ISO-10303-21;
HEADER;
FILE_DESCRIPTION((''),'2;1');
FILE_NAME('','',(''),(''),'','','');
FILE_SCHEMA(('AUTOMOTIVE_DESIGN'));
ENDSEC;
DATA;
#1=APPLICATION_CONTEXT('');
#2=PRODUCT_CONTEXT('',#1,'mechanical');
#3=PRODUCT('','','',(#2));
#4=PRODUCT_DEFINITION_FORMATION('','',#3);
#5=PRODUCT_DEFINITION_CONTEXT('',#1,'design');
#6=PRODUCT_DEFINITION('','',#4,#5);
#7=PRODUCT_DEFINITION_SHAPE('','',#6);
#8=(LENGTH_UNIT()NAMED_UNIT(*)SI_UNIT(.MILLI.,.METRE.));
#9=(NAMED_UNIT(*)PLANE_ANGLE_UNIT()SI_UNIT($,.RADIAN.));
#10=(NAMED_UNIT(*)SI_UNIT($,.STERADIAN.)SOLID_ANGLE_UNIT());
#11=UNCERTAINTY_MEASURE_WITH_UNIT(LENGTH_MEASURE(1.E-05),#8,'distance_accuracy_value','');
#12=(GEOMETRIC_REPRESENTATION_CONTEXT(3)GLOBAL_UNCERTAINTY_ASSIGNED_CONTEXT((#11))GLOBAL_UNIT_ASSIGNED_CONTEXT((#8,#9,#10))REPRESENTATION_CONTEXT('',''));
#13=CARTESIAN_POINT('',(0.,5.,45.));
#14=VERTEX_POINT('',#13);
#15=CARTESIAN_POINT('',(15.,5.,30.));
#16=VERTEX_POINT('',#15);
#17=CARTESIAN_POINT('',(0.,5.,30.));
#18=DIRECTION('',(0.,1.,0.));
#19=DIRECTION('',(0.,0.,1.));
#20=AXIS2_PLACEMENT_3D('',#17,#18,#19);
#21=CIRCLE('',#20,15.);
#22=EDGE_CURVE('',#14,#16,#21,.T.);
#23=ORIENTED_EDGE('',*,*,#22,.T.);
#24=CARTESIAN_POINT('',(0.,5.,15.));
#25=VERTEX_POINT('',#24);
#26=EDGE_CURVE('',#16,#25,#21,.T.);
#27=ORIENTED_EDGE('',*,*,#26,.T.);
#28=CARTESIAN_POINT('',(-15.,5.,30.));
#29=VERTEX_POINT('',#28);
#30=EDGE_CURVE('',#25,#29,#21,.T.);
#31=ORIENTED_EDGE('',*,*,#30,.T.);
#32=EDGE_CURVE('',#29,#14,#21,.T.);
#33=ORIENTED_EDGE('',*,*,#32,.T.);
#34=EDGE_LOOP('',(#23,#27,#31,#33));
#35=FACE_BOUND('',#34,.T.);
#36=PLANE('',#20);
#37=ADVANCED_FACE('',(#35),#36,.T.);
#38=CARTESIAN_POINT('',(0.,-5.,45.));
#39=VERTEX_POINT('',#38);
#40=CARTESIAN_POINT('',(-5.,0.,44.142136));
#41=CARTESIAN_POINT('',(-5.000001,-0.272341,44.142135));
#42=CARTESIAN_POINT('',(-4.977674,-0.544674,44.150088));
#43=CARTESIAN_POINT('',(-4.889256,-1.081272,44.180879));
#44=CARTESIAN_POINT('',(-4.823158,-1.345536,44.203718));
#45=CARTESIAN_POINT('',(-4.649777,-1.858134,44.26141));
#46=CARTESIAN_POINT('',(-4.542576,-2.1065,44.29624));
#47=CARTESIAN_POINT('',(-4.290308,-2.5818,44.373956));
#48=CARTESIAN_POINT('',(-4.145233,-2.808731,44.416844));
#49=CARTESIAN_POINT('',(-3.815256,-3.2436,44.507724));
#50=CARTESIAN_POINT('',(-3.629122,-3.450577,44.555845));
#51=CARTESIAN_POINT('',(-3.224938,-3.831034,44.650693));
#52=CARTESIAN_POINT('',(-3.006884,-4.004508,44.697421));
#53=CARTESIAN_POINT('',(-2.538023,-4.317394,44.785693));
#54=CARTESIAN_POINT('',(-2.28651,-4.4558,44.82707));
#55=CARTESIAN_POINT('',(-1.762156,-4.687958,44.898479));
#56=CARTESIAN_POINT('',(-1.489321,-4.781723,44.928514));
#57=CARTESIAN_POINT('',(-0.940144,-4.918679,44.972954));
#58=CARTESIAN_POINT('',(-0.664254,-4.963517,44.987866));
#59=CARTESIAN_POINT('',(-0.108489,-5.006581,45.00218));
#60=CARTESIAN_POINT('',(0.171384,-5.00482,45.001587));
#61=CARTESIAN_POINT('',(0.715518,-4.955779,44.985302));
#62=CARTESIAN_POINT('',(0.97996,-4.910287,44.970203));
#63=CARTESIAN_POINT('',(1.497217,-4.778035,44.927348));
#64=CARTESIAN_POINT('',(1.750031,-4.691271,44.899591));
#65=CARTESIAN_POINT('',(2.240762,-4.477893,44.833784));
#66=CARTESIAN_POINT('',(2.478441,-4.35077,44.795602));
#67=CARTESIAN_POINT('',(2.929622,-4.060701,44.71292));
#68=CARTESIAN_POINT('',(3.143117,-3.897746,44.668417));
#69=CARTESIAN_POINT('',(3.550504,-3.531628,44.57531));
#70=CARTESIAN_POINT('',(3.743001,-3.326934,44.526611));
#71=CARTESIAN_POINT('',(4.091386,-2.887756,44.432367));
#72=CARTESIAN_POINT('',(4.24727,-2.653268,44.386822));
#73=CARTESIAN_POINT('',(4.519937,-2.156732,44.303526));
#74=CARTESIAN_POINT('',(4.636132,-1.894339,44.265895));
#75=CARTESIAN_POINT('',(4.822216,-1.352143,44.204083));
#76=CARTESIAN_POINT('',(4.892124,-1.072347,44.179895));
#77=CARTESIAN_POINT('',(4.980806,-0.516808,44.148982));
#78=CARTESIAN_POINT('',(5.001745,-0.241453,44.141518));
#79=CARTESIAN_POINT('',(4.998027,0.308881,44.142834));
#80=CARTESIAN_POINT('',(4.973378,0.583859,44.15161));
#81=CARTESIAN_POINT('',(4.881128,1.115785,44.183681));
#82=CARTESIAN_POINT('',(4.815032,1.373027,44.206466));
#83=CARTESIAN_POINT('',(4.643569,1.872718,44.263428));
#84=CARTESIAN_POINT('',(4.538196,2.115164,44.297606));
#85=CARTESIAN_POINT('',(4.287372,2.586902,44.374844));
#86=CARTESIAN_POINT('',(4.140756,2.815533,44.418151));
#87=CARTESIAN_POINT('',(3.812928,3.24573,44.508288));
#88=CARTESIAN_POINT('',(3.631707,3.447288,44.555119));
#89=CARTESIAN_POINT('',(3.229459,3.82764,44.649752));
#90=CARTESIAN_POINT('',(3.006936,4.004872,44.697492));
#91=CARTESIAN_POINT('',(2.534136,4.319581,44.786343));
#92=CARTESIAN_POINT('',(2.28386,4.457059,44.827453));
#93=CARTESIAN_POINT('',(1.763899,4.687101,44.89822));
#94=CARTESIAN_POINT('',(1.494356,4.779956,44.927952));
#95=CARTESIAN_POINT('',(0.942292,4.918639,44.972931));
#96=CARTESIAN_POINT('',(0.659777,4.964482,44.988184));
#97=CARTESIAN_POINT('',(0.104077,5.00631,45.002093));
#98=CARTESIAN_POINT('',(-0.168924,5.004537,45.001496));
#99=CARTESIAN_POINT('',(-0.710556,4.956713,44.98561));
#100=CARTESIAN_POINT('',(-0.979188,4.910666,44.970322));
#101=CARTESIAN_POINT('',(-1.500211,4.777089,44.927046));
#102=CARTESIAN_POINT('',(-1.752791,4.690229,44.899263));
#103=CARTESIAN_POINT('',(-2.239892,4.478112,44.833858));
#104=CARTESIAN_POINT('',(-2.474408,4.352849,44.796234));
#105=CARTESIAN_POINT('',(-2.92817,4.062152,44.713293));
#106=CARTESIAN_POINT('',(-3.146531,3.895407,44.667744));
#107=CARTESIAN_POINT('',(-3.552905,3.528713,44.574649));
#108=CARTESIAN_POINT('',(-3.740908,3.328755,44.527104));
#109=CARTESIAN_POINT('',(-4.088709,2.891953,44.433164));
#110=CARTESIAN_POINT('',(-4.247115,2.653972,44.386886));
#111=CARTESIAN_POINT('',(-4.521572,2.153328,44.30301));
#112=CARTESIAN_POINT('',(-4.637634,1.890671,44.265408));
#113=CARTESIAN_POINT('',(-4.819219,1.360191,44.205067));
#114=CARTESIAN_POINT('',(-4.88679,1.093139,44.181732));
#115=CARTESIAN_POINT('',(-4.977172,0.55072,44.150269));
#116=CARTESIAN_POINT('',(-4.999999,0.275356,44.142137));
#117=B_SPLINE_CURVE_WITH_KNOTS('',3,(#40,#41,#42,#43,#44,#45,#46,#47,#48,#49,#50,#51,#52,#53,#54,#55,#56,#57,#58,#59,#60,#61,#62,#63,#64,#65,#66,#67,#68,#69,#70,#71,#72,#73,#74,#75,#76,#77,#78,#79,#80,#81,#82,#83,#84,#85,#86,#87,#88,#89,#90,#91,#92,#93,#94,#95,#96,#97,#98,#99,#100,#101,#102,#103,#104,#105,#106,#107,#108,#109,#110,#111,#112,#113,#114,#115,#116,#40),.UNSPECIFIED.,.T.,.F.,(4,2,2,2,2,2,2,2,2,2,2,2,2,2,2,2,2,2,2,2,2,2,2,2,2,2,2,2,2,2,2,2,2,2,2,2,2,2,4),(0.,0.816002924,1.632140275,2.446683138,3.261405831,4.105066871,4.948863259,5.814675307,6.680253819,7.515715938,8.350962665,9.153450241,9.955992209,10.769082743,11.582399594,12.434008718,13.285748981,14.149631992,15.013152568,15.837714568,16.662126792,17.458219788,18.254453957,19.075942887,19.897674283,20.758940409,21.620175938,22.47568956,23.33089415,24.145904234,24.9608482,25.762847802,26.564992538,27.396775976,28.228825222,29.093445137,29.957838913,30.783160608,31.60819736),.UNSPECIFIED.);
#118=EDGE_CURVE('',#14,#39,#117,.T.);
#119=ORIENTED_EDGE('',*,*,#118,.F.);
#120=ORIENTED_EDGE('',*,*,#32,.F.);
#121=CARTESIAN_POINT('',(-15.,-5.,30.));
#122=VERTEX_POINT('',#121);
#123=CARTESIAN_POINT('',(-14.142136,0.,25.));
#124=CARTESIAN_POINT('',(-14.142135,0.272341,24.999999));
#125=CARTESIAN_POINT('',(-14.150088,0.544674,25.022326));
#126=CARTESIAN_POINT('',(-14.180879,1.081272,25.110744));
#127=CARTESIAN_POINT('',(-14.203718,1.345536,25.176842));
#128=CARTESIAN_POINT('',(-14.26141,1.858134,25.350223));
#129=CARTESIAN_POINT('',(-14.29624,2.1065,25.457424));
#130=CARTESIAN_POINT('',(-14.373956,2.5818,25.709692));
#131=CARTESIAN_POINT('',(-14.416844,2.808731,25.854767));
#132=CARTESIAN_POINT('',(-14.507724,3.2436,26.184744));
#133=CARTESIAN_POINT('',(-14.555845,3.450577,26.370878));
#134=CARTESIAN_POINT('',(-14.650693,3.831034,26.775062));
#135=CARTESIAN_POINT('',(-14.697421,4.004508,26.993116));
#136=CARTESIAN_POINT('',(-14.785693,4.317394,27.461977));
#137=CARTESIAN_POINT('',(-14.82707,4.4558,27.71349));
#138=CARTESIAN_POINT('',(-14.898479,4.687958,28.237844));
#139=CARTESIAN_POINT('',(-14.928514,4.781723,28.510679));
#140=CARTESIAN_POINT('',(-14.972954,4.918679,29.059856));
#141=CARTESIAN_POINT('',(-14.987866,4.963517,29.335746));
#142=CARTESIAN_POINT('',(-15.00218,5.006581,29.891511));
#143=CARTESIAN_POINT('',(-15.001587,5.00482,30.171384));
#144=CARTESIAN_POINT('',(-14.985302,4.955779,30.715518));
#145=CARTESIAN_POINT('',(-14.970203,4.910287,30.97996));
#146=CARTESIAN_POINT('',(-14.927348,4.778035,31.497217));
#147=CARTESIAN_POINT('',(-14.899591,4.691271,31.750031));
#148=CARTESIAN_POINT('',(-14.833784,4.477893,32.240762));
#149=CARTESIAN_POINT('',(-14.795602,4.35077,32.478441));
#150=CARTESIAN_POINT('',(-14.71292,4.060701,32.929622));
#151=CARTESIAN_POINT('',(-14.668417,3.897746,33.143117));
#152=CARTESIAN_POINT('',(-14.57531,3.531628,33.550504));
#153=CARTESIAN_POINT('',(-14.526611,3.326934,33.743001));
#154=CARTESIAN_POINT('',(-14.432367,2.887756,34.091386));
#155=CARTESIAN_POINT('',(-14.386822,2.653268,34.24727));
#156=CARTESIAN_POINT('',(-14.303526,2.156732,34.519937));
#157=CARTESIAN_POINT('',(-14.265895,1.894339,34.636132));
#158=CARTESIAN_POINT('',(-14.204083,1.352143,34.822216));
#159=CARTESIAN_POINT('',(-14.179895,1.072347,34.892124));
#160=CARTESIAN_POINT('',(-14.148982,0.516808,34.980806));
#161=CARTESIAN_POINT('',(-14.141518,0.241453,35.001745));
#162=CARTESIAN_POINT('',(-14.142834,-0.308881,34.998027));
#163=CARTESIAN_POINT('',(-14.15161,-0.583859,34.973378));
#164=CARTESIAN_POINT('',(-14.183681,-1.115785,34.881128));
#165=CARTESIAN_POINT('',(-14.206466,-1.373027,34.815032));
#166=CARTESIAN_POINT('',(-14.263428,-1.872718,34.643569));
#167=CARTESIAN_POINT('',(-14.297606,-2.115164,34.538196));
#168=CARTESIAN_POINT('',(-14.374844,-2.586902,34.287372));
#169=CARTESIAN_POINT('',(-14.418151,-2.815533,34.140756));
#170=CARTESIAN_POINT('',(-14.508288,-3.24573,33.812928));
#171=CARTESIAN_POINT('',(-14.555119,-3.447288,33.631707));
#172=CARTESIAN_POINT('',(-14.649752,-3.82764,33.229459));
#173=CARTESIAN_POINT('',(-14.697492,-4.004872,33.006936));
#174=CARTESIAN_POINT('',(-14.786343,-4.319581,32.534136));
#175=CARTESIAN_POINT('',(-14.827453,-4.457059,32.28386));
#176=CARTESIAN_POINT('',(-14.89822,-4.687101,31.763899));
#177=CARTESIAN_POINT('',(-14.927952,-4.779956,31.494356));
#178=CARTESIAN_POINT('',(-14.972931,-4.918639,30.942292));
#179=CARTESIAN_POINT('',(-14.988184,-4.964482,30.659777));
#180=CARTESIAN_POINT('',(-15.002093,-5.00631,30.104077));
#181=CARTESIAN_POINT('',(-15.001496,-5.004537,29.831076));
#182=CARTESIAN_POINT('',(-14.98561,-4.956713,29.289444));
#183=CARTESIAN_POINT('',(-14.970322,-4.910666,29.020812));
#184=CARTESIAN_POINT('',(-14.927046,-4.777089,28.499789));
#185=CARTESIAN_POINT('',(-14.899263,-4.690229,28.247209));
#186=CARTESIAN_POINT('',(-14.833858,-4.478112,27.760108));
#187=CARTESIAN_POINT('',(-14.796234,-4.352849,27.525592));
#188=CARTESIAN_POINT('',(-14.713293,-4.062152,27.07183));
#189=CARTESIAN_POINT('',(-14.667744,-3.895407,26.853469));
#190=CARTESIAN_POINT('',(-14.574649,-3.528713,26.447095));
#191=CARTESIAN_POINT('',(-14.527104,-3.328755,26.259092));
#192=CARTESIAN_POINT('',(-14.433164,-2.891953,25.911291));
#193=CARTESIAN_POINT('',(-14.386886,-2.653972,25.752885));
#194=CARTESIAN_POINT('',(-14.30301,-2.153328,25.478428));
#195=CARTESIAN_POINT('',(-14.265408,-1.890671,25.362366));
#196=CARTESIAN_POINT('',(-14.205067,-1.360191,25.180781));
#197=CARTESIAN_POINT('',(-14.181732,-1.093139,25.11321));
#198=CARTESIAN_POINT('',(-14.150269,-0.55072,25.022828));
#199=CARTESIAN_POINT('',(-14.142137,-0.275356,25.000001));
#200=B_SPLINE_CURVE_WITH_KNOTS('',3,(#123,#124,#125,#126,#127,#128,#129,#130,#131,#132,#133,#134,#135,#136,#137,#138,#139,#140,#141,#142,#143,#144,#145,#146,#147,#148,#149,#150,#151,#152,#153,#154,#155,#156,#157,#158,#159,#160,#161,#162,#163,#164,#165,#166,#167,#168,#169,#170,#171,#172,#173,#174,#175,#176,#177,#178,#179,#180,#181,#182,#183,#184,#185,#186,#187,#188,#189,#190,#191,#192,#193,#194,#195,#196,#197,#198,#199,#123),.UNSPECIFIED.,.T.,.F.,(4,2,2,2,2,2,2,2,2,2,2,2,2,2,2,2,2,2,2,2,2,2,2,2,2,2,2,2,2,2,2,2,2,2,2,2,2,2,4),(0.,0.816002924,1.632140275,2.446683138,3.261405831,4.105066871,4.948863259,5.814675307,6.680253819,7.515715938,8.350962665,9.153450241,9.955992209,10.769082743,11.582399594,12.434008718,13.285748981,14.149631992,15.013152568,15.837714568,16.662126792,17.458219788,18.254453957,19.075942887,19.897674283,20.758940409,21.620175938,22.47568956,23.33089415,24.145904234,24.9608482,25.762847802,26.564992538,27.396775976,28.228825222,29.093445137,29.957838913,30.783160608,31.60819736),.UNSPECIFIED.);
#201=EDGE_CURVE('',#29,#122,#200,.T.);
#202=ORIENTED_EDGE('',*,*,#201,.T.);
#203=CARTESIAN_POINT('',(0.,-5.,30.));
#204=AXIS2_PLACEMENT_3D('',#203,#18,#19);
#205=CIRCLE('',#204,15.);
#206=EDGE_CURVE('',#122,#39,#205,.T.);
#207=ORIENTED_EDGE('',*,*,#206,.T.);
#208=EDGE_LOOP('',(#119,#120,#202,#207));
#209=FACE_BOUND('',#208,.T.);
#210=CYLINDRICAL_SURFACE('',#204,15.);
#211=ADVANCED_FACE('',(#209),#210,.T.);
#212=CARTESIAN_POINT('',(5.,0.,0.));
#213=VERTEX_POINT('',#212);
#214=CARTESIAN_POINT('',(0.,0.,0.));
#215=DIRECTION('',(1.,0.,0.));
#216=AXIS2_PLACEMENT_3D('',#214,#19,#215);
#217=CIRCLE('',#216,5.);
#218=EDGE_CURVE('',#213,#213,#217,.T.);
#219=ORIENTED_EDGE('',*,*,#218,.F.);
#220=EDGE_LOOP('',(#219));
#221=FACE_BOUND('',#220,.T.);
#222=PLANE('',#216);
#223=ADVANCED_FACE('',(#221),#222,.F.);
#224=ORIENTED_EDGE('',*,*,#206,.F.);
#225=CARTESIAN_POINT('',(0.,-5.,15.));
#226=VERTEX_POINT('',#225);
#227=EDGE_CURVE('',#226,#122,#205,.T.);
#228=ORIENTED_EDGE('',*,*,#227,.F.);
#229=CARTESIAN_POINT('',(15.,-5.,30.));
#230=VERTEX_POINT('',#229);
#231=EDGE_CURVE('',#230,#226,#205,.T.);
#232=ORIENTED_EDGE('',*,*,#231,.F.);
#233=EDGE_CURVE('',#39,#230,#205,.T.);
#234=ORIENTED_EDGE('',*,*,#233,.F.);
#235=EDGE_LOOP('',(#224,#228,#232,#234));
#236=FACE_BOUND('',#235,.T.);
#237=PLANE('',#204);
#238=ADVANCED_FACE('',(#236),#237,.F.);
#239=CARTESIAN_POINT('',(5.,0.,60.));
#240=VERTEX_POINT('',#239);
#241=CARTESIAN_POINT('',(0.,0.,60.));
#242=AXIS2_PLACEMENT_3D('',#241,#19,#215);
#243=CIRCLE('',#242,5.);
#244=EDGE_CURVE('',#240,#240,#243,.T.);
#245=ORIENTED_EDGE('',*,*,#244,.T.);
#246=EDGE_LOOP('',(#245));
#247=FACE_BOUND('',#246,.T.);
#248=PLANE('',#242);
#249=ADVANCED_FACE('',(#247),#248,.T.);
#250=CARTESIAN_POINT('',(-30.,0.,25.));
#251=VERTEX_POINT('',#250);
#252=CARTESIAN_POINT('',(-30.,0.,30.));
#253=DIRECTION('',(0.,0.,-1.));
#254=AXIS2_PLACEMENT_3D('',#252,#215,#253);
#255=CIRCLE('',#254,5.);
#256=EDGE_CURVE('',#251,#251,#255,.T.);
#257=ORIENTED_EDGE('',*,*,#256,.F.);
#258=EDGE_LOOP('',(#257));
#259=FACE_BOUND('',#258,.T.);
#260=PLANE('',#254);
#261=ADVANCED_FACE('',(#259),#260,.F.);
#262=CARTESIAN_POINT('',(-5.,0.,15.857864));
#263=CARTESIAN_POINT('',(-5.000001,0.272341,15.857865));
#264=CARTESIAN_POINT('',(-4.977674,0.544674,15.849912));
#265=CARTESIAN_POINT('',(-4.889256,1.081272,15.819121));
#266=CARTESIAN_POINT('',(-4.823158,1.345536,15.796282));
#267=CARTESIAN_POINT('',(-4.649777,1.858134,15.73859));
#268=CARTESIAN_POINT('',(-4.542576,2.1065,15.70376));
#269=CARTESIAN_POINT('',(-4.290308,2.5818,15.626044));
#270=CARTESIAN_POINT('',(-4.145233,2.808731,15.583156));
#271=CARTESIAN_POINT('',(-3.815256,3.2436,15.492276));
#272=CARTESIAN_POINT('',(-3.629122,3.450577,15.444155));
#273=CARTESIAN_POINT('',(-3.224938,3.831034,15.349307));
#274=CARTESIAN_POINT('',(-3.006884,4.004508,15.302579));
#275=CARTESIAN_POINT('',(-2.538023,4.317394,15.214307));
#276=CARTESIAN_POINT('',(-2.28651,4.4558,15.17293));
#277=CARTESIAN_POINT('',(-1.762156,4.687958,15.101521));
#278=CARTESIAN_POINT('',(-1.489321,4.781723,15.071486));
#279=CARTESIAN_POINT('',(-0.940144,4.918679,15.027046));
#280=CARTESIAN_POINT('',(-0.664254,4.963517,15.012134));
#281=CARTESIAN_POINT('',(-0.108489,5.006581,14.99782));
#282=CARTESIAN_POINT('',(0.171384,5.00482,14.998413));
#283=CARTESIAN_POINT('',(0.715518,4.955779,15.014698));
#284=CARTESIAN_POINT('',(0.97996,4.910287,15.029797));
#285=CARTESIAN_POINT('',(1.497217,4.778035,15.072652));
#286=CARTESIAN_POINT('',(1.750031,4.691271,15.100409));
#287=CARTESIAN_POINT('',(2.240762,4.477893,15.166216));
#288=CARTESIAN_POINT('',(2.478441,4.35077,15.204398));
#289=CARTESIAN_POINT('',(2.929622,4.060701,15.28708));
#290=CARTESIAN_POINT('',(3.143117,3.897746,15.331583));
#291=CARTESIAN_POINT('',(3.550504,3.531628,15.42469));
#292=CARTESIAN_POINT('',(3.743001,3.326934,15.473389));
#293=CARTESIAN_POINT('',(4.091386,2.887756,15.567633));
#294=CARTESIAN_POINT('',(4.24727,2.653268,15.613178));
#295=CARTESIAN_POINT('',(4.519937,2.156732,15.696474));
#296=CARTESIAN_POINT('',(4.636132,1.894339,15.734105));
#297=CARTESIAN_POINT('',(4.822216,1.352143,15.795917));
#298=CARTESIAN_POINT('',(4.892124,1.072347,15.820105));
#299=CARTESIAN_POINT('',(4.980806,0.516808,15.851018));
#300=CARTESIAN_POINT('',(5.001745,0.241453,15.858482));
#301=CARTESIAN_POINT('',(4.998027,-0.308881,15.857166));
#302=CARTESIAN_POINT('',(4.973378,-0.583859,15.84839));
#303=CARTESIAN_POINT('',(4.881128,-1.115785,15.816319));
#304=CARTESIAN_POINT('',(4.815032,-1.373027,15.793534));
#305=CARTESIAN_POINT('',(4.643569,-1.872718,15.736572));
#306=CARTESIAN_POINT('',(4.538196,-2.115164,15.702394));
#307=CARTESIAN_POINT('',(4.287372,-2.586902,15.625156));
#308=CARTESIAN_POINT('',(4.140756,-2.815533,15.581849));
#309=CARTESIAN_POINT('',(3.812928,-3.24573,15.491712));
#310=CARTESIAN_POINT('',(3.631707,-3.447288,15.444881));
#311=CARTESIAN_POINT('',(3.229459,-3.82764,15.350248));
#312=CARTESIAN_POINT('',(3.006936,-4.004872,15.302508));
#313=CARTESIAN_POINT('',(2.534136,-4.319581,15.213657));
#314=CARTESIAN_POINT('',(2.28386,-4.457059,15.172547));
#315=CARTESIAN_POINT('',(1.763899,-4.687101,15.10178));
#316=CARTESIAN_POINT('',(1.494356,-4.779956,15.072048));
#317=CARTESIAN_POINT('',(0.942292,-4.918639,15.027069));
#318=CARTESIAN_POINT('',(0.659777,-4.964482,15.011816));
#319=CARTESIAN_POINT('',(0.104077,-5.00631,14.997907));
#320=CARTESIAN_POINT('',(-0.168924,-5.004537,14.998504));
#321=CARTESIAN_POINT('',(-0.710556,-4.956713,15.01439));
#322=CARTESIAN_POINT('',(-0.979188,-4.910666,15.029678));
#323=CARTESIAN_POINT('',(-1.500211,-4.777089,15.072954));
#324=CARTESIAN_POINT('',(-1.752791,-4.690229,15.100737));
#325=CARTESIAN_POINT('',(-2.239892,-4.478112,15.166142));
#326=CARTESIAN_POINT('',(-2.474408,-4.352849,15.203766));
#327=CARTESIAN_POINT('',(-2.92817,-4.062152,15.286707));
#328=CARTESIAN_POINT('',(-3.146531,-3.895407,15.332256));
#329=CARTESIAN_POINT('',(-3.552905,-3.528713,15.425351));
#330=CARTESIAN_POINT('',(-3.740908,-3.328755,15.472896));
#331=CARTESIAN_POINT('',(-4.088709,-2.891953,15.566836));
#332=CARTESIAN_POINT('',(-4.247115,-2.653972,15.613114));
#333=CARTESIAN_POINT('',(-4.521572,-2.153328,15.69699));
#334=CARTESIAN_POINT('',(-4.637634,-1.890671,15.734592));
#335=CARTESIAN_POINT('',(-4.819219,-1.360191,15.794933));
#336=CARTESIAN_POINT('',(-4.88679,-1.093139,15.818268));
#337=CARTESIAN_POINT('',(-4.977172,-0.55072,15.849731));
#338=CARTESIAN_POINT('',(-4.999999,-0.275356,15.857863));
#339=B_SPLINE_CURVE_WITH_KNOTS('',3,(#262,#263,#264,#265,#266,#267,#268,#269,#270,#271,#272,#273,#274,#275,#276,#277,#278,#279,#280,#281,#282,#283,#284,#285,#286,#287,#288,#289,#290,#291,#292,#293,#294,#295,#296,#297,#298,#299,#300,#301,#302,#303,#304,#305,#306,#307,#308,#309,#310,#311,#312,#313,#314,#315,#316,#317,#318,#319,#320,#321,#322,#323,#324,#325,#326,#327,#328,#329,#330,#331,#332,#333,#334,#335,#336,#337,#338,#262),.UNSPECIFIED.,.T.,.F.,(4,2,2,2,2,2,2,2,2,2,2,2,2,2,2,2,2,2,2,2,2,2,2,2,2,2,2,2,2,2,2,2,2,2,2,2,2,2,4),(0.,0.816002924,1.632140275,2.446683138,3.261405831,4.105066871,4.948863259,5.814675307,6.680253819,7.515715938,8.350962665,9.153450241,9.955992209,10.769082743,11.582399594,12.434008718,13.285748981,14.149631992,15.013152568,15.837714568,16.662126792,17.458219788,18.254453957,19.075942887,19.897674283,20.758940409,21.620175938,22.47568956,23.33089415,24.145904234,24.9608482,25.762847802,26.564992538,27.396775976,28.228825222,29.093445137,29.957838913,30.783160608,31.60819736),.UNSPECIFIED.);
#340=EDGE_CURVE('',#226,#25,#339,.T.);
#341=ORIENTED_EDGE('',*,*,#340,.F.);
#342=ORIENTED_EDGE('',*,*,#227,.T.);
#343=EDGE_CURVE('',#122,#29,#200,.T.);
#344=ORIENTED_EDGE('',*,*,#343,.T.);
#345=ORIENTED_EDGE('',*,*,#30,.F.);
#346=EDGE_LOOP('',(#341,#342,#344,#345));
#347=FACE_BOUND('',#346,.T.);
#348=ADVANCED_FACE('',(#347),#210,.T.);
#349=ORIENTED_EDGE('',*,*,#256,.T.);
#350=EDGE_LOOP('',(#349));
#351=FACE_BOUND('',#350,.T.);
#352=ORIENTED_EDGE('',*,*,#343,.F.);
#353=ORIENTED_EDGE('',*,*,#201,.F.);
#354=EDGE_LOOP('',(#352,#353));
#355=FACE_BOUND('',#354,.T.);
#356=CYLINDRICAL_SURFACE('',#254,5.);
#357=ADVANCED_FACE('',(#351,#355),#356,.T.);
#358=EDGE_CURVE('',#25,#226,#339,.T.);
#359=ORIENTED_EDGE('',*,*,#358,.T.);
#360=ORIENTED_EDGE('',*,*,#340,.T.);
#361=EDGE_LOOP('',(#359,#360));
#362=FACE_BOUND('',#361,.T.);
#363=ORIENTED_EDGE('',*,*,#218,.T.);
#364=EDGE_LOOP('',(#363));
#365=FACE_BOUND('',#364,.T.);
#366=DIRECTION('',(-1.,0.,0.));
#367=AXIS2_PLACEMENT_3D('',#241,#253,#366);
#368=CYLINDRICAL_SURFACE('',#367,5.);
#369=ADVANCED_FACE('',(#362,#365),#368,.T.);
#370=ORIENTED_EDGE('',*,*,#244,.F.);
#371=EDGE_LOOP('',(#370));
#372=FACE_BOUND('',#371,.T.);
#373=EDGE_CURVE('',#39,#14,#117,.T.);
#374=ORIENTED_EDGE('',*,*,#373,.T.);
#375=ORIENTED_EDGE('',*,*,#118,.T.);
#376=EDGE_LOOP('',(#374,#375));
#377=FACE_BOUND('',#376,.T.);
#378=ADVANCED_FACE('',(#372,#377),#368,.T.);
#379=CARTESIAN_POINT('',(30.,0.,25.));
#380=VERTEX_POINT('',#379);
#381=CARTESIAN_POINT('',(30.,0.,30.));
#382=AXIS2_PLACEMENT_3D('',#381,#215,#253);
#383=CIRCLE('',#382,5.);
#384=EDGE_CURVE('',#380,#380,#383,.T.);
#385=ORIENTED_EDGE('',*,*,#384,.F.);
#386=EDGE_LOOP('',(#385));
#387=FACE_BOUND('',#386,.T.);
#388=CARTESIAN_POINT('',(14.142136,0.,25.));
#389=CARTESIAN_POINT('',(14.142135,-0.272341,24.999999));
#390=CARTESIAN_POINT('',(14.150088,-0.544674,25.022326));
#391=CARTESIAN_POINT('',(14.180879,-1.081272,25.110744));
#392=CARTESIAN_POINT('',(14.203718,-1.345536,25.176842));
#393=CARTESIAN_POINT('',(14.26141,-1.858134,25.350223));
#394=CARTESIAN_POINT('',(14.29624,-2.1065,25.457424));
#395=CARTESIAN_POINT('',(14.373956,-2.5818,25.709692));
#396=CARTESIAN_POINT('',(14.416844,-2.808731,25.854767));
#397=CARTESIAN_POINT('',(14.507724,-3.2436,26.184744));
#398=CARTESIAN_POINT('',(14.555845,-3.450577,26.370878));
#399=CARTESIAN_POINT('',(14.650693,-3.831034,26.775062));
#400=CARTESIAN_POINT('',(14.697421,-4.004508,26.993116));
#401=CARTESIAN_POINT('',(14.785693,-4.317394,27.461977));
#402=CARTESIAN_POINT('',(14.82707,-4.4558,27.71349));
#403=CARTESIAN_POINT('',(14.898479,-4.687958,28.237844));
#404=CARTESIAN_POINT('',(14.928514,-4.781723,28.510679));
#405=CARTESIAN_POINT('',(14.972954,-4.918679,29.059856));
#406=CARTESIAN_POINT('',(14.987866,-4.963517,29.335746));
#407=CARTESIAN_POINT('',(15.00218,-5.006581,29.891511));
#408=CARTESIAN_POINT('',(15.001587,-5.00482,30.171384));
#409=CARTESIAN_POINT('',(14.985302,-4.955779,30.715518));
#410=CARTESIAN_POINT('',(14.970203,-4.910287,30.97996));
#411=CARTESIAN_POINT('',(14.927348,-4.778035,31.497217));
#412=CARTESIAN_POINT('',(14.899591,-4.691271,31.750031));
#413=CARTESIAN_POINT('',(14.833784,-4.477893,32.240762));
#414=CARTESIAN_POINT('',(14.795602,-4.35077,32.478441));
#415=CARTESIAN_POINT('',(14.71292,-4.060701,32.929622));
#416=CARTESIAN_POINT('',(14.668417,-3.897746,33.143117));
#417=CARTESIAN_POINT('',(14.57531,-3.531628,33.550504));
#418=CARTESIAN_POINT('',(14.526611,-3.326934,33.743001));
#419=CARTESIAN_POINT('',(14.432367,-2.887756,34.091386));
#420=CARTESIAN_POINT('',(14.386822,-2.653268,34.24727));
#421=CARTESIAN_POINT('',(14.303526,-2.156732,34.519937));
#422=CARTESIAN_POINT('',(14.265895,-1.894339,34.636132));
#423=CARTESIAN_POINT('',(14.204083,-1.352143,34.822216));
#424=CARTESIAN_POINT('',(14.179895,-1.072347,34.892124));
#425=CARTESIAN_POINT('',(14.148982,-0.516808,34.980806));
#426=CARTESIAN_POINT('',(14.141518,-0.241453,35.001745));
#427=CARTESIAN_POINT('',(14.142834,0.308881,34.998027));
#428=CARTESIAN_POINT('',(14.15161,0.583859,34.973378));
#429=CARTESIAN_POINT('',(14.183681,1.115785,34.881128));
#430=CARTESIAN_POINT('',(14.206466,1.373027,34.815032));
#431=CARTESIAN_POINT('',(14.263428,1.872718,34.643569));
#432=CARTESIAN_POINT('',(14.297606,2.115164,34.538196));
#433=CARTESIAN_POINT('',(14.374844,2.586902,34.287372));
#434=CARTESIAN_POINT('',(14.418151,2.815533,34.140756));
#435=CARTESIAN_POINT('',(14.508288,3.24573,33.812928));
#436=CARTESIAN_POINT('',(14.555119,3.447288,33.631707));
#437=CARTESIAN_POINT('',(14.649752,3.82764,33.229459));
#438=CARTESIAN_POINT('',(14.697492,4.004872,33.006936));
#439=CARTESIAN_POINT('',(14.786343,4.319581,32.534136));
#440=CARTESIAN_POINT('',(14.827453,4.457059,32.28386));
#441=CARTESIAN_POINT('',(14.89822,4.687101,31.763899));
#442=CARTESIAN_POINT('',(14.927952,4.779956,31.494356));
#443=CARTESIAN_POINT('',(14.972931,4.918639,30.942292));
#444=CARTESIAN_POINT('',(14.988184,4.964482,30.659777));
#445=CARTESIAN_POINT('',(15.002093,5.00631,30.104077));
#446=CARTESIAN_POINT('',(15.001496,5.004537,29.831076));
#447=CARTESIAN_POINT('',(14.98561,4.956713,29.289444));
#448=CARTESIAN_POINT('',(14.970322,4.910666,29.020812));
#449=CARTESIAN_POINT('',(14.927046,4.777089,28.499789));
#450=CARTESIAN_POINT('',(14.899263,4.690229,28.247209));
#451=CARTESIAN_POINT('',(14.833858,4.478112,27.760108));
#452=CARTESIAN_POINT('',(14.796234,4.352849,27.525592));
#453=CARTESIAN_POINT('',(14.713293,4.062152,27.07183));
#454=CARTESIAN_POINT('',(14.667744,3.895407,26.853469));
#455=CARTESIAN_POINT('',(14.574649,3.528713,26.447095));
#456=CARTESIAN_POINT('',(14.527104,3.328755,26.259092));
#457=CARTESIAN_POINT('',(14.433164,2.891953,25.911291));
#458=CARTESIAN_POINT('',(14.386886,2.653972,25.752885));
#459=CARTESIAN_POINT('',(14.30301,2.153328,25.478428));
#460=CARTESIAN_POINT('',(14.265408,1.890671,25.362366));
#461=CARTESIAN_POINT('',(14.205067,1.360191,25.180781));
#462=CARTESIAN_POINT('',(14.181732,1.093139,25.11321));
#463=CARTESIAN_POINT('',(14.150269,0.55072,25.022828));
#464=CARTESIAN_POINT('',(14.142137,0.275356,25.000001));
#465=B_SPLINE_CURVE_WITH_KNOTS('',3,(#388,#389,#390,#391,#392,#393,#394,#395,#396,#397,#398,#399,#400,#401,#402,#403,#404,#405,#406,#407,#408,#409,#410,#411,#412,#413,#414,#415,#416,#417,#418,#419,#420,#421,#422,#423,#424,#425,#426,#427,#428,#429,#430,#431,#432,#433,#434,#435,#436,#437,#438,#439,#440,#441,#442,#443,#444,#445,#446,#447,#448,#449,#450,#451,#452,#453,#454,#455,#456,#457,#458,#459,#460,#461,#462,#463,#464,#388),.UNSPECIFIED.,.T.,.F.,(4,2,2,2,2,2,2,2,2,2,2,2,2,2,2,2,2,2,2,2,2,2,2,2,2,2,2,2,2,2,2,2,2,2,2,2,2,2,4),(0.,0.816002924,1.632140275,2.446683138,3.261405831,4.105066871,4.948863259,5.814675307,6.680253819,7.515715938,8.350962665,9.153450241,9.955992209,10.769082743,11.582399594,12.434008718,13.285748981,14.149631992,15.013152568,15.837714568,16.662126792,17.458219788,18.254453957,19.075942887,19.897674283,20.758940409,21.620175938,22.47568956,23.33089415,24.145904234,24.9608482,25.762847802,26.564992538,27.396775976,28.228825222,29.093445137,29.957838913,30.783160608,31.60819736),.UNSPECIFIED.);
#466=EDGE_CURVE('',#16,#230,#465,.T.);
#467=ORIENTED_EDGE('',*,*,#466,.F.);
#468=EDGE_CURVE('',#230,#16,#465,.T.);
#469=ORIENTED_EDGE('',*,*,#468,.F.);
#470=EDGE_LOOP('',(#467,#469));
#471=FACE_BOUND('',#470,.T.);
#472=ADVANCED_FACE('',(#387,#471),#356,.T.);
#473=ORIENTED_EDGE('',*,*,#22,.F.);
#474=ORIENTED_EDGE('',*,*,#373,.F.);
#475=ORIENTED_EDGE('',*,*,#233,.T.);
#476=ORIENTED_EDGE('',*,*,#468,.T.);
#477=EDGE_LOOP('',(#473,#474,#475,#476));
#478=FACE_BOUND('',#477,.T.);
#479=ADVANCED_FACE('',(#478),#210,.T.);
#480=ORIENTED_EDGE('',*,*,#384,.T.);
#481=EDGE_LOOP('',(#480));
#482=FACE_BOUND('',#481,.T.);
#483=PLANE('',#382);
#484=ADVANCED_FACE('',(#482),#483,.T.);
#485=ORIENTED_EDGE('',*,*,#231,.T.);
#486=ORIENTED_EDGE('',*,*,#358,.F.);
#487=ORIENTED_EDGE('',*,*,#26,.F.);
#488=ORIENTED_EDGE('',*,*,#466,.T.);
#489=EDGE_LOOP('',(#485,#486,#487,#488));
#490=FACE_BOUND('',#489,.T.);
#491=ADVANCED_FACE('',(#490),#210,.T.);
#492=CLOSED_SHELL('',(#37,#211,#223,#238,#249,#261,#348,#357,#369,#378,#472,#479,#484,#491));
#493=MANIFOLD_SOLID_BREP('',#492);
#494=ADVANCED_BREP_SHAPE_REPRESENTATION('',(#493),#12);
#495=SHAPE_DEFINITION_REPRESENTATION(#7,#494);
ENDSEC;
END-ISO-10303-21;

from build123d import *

# Parameters (mm, degrees)
NORTH_SOUTH_SKETCH_R              = 5
NORTH_SOUTH_EXTRUDE_DEPTH         = 60
EAST_WEST_EXTRUDE_DEPTH           = 30
EAST_WEST_EXTRUDE_DEPTH_BACK      = 30
EAST_WEST_SKETCH_R                = 5
CENTER_SUPPORT_EXTRUDE_DEPTH      = 5
CENTER_SUPPORT_EXTRUDE_DEPTH_BACK = 5
CENTER_SUPPORT_SKETCH_R           = 15


with BuildPart() as part:
    # North-South Sketch → North-South Extrude (new body)
    with BuildSketch(Plane.XY):
        Circle(NORTH_SOUTH_SKETCH_R)
    extrude(amount=NORTH_SOUTH_EXTRUDE_DEPTH)

    # East-West Sketch → East-West Extrude (add, two sides: drawn at the far end of the back side and taken through both)
    with BuildSketch(Plane(origin=(0, 0, 0), x_dir=(0, 0, -1), z_dir=(1, 0, 0)).offset(-EAST_WEST_EXTRUDE_DEPTH_BACK)):
        with Locations((-30, 0)):
            Circle(EAST_WEST_SKETCH_R)
    extrude(amount=EAST_WEST_EXTRUDE_DEPTH + EAST_WEST_EXTRUDE_DEPTH_BACK)

    # Center Support Sketch → Center Support Extrude (add, two sides: drawn at the far end of the back side and taken through both)
    with BuildSketch(Plane(origin=(0, 0, 0), x_dir=(1, 0, 0), z_dir=(0, 1, 0)).offset(-CENTER_SUPPORT_EXTRUDE_DEPTH_BACK)):
        with Locations((0, -30)):
            Circle(CENTER_SUPPORT_SKETCH_R)
    extrude(amount=CENTER_SUPPORT_EXTRUDE_DEPTH + CENTER_SUPPORT_EXTRUDE_DEPTH_BACK)


solid = part.part
